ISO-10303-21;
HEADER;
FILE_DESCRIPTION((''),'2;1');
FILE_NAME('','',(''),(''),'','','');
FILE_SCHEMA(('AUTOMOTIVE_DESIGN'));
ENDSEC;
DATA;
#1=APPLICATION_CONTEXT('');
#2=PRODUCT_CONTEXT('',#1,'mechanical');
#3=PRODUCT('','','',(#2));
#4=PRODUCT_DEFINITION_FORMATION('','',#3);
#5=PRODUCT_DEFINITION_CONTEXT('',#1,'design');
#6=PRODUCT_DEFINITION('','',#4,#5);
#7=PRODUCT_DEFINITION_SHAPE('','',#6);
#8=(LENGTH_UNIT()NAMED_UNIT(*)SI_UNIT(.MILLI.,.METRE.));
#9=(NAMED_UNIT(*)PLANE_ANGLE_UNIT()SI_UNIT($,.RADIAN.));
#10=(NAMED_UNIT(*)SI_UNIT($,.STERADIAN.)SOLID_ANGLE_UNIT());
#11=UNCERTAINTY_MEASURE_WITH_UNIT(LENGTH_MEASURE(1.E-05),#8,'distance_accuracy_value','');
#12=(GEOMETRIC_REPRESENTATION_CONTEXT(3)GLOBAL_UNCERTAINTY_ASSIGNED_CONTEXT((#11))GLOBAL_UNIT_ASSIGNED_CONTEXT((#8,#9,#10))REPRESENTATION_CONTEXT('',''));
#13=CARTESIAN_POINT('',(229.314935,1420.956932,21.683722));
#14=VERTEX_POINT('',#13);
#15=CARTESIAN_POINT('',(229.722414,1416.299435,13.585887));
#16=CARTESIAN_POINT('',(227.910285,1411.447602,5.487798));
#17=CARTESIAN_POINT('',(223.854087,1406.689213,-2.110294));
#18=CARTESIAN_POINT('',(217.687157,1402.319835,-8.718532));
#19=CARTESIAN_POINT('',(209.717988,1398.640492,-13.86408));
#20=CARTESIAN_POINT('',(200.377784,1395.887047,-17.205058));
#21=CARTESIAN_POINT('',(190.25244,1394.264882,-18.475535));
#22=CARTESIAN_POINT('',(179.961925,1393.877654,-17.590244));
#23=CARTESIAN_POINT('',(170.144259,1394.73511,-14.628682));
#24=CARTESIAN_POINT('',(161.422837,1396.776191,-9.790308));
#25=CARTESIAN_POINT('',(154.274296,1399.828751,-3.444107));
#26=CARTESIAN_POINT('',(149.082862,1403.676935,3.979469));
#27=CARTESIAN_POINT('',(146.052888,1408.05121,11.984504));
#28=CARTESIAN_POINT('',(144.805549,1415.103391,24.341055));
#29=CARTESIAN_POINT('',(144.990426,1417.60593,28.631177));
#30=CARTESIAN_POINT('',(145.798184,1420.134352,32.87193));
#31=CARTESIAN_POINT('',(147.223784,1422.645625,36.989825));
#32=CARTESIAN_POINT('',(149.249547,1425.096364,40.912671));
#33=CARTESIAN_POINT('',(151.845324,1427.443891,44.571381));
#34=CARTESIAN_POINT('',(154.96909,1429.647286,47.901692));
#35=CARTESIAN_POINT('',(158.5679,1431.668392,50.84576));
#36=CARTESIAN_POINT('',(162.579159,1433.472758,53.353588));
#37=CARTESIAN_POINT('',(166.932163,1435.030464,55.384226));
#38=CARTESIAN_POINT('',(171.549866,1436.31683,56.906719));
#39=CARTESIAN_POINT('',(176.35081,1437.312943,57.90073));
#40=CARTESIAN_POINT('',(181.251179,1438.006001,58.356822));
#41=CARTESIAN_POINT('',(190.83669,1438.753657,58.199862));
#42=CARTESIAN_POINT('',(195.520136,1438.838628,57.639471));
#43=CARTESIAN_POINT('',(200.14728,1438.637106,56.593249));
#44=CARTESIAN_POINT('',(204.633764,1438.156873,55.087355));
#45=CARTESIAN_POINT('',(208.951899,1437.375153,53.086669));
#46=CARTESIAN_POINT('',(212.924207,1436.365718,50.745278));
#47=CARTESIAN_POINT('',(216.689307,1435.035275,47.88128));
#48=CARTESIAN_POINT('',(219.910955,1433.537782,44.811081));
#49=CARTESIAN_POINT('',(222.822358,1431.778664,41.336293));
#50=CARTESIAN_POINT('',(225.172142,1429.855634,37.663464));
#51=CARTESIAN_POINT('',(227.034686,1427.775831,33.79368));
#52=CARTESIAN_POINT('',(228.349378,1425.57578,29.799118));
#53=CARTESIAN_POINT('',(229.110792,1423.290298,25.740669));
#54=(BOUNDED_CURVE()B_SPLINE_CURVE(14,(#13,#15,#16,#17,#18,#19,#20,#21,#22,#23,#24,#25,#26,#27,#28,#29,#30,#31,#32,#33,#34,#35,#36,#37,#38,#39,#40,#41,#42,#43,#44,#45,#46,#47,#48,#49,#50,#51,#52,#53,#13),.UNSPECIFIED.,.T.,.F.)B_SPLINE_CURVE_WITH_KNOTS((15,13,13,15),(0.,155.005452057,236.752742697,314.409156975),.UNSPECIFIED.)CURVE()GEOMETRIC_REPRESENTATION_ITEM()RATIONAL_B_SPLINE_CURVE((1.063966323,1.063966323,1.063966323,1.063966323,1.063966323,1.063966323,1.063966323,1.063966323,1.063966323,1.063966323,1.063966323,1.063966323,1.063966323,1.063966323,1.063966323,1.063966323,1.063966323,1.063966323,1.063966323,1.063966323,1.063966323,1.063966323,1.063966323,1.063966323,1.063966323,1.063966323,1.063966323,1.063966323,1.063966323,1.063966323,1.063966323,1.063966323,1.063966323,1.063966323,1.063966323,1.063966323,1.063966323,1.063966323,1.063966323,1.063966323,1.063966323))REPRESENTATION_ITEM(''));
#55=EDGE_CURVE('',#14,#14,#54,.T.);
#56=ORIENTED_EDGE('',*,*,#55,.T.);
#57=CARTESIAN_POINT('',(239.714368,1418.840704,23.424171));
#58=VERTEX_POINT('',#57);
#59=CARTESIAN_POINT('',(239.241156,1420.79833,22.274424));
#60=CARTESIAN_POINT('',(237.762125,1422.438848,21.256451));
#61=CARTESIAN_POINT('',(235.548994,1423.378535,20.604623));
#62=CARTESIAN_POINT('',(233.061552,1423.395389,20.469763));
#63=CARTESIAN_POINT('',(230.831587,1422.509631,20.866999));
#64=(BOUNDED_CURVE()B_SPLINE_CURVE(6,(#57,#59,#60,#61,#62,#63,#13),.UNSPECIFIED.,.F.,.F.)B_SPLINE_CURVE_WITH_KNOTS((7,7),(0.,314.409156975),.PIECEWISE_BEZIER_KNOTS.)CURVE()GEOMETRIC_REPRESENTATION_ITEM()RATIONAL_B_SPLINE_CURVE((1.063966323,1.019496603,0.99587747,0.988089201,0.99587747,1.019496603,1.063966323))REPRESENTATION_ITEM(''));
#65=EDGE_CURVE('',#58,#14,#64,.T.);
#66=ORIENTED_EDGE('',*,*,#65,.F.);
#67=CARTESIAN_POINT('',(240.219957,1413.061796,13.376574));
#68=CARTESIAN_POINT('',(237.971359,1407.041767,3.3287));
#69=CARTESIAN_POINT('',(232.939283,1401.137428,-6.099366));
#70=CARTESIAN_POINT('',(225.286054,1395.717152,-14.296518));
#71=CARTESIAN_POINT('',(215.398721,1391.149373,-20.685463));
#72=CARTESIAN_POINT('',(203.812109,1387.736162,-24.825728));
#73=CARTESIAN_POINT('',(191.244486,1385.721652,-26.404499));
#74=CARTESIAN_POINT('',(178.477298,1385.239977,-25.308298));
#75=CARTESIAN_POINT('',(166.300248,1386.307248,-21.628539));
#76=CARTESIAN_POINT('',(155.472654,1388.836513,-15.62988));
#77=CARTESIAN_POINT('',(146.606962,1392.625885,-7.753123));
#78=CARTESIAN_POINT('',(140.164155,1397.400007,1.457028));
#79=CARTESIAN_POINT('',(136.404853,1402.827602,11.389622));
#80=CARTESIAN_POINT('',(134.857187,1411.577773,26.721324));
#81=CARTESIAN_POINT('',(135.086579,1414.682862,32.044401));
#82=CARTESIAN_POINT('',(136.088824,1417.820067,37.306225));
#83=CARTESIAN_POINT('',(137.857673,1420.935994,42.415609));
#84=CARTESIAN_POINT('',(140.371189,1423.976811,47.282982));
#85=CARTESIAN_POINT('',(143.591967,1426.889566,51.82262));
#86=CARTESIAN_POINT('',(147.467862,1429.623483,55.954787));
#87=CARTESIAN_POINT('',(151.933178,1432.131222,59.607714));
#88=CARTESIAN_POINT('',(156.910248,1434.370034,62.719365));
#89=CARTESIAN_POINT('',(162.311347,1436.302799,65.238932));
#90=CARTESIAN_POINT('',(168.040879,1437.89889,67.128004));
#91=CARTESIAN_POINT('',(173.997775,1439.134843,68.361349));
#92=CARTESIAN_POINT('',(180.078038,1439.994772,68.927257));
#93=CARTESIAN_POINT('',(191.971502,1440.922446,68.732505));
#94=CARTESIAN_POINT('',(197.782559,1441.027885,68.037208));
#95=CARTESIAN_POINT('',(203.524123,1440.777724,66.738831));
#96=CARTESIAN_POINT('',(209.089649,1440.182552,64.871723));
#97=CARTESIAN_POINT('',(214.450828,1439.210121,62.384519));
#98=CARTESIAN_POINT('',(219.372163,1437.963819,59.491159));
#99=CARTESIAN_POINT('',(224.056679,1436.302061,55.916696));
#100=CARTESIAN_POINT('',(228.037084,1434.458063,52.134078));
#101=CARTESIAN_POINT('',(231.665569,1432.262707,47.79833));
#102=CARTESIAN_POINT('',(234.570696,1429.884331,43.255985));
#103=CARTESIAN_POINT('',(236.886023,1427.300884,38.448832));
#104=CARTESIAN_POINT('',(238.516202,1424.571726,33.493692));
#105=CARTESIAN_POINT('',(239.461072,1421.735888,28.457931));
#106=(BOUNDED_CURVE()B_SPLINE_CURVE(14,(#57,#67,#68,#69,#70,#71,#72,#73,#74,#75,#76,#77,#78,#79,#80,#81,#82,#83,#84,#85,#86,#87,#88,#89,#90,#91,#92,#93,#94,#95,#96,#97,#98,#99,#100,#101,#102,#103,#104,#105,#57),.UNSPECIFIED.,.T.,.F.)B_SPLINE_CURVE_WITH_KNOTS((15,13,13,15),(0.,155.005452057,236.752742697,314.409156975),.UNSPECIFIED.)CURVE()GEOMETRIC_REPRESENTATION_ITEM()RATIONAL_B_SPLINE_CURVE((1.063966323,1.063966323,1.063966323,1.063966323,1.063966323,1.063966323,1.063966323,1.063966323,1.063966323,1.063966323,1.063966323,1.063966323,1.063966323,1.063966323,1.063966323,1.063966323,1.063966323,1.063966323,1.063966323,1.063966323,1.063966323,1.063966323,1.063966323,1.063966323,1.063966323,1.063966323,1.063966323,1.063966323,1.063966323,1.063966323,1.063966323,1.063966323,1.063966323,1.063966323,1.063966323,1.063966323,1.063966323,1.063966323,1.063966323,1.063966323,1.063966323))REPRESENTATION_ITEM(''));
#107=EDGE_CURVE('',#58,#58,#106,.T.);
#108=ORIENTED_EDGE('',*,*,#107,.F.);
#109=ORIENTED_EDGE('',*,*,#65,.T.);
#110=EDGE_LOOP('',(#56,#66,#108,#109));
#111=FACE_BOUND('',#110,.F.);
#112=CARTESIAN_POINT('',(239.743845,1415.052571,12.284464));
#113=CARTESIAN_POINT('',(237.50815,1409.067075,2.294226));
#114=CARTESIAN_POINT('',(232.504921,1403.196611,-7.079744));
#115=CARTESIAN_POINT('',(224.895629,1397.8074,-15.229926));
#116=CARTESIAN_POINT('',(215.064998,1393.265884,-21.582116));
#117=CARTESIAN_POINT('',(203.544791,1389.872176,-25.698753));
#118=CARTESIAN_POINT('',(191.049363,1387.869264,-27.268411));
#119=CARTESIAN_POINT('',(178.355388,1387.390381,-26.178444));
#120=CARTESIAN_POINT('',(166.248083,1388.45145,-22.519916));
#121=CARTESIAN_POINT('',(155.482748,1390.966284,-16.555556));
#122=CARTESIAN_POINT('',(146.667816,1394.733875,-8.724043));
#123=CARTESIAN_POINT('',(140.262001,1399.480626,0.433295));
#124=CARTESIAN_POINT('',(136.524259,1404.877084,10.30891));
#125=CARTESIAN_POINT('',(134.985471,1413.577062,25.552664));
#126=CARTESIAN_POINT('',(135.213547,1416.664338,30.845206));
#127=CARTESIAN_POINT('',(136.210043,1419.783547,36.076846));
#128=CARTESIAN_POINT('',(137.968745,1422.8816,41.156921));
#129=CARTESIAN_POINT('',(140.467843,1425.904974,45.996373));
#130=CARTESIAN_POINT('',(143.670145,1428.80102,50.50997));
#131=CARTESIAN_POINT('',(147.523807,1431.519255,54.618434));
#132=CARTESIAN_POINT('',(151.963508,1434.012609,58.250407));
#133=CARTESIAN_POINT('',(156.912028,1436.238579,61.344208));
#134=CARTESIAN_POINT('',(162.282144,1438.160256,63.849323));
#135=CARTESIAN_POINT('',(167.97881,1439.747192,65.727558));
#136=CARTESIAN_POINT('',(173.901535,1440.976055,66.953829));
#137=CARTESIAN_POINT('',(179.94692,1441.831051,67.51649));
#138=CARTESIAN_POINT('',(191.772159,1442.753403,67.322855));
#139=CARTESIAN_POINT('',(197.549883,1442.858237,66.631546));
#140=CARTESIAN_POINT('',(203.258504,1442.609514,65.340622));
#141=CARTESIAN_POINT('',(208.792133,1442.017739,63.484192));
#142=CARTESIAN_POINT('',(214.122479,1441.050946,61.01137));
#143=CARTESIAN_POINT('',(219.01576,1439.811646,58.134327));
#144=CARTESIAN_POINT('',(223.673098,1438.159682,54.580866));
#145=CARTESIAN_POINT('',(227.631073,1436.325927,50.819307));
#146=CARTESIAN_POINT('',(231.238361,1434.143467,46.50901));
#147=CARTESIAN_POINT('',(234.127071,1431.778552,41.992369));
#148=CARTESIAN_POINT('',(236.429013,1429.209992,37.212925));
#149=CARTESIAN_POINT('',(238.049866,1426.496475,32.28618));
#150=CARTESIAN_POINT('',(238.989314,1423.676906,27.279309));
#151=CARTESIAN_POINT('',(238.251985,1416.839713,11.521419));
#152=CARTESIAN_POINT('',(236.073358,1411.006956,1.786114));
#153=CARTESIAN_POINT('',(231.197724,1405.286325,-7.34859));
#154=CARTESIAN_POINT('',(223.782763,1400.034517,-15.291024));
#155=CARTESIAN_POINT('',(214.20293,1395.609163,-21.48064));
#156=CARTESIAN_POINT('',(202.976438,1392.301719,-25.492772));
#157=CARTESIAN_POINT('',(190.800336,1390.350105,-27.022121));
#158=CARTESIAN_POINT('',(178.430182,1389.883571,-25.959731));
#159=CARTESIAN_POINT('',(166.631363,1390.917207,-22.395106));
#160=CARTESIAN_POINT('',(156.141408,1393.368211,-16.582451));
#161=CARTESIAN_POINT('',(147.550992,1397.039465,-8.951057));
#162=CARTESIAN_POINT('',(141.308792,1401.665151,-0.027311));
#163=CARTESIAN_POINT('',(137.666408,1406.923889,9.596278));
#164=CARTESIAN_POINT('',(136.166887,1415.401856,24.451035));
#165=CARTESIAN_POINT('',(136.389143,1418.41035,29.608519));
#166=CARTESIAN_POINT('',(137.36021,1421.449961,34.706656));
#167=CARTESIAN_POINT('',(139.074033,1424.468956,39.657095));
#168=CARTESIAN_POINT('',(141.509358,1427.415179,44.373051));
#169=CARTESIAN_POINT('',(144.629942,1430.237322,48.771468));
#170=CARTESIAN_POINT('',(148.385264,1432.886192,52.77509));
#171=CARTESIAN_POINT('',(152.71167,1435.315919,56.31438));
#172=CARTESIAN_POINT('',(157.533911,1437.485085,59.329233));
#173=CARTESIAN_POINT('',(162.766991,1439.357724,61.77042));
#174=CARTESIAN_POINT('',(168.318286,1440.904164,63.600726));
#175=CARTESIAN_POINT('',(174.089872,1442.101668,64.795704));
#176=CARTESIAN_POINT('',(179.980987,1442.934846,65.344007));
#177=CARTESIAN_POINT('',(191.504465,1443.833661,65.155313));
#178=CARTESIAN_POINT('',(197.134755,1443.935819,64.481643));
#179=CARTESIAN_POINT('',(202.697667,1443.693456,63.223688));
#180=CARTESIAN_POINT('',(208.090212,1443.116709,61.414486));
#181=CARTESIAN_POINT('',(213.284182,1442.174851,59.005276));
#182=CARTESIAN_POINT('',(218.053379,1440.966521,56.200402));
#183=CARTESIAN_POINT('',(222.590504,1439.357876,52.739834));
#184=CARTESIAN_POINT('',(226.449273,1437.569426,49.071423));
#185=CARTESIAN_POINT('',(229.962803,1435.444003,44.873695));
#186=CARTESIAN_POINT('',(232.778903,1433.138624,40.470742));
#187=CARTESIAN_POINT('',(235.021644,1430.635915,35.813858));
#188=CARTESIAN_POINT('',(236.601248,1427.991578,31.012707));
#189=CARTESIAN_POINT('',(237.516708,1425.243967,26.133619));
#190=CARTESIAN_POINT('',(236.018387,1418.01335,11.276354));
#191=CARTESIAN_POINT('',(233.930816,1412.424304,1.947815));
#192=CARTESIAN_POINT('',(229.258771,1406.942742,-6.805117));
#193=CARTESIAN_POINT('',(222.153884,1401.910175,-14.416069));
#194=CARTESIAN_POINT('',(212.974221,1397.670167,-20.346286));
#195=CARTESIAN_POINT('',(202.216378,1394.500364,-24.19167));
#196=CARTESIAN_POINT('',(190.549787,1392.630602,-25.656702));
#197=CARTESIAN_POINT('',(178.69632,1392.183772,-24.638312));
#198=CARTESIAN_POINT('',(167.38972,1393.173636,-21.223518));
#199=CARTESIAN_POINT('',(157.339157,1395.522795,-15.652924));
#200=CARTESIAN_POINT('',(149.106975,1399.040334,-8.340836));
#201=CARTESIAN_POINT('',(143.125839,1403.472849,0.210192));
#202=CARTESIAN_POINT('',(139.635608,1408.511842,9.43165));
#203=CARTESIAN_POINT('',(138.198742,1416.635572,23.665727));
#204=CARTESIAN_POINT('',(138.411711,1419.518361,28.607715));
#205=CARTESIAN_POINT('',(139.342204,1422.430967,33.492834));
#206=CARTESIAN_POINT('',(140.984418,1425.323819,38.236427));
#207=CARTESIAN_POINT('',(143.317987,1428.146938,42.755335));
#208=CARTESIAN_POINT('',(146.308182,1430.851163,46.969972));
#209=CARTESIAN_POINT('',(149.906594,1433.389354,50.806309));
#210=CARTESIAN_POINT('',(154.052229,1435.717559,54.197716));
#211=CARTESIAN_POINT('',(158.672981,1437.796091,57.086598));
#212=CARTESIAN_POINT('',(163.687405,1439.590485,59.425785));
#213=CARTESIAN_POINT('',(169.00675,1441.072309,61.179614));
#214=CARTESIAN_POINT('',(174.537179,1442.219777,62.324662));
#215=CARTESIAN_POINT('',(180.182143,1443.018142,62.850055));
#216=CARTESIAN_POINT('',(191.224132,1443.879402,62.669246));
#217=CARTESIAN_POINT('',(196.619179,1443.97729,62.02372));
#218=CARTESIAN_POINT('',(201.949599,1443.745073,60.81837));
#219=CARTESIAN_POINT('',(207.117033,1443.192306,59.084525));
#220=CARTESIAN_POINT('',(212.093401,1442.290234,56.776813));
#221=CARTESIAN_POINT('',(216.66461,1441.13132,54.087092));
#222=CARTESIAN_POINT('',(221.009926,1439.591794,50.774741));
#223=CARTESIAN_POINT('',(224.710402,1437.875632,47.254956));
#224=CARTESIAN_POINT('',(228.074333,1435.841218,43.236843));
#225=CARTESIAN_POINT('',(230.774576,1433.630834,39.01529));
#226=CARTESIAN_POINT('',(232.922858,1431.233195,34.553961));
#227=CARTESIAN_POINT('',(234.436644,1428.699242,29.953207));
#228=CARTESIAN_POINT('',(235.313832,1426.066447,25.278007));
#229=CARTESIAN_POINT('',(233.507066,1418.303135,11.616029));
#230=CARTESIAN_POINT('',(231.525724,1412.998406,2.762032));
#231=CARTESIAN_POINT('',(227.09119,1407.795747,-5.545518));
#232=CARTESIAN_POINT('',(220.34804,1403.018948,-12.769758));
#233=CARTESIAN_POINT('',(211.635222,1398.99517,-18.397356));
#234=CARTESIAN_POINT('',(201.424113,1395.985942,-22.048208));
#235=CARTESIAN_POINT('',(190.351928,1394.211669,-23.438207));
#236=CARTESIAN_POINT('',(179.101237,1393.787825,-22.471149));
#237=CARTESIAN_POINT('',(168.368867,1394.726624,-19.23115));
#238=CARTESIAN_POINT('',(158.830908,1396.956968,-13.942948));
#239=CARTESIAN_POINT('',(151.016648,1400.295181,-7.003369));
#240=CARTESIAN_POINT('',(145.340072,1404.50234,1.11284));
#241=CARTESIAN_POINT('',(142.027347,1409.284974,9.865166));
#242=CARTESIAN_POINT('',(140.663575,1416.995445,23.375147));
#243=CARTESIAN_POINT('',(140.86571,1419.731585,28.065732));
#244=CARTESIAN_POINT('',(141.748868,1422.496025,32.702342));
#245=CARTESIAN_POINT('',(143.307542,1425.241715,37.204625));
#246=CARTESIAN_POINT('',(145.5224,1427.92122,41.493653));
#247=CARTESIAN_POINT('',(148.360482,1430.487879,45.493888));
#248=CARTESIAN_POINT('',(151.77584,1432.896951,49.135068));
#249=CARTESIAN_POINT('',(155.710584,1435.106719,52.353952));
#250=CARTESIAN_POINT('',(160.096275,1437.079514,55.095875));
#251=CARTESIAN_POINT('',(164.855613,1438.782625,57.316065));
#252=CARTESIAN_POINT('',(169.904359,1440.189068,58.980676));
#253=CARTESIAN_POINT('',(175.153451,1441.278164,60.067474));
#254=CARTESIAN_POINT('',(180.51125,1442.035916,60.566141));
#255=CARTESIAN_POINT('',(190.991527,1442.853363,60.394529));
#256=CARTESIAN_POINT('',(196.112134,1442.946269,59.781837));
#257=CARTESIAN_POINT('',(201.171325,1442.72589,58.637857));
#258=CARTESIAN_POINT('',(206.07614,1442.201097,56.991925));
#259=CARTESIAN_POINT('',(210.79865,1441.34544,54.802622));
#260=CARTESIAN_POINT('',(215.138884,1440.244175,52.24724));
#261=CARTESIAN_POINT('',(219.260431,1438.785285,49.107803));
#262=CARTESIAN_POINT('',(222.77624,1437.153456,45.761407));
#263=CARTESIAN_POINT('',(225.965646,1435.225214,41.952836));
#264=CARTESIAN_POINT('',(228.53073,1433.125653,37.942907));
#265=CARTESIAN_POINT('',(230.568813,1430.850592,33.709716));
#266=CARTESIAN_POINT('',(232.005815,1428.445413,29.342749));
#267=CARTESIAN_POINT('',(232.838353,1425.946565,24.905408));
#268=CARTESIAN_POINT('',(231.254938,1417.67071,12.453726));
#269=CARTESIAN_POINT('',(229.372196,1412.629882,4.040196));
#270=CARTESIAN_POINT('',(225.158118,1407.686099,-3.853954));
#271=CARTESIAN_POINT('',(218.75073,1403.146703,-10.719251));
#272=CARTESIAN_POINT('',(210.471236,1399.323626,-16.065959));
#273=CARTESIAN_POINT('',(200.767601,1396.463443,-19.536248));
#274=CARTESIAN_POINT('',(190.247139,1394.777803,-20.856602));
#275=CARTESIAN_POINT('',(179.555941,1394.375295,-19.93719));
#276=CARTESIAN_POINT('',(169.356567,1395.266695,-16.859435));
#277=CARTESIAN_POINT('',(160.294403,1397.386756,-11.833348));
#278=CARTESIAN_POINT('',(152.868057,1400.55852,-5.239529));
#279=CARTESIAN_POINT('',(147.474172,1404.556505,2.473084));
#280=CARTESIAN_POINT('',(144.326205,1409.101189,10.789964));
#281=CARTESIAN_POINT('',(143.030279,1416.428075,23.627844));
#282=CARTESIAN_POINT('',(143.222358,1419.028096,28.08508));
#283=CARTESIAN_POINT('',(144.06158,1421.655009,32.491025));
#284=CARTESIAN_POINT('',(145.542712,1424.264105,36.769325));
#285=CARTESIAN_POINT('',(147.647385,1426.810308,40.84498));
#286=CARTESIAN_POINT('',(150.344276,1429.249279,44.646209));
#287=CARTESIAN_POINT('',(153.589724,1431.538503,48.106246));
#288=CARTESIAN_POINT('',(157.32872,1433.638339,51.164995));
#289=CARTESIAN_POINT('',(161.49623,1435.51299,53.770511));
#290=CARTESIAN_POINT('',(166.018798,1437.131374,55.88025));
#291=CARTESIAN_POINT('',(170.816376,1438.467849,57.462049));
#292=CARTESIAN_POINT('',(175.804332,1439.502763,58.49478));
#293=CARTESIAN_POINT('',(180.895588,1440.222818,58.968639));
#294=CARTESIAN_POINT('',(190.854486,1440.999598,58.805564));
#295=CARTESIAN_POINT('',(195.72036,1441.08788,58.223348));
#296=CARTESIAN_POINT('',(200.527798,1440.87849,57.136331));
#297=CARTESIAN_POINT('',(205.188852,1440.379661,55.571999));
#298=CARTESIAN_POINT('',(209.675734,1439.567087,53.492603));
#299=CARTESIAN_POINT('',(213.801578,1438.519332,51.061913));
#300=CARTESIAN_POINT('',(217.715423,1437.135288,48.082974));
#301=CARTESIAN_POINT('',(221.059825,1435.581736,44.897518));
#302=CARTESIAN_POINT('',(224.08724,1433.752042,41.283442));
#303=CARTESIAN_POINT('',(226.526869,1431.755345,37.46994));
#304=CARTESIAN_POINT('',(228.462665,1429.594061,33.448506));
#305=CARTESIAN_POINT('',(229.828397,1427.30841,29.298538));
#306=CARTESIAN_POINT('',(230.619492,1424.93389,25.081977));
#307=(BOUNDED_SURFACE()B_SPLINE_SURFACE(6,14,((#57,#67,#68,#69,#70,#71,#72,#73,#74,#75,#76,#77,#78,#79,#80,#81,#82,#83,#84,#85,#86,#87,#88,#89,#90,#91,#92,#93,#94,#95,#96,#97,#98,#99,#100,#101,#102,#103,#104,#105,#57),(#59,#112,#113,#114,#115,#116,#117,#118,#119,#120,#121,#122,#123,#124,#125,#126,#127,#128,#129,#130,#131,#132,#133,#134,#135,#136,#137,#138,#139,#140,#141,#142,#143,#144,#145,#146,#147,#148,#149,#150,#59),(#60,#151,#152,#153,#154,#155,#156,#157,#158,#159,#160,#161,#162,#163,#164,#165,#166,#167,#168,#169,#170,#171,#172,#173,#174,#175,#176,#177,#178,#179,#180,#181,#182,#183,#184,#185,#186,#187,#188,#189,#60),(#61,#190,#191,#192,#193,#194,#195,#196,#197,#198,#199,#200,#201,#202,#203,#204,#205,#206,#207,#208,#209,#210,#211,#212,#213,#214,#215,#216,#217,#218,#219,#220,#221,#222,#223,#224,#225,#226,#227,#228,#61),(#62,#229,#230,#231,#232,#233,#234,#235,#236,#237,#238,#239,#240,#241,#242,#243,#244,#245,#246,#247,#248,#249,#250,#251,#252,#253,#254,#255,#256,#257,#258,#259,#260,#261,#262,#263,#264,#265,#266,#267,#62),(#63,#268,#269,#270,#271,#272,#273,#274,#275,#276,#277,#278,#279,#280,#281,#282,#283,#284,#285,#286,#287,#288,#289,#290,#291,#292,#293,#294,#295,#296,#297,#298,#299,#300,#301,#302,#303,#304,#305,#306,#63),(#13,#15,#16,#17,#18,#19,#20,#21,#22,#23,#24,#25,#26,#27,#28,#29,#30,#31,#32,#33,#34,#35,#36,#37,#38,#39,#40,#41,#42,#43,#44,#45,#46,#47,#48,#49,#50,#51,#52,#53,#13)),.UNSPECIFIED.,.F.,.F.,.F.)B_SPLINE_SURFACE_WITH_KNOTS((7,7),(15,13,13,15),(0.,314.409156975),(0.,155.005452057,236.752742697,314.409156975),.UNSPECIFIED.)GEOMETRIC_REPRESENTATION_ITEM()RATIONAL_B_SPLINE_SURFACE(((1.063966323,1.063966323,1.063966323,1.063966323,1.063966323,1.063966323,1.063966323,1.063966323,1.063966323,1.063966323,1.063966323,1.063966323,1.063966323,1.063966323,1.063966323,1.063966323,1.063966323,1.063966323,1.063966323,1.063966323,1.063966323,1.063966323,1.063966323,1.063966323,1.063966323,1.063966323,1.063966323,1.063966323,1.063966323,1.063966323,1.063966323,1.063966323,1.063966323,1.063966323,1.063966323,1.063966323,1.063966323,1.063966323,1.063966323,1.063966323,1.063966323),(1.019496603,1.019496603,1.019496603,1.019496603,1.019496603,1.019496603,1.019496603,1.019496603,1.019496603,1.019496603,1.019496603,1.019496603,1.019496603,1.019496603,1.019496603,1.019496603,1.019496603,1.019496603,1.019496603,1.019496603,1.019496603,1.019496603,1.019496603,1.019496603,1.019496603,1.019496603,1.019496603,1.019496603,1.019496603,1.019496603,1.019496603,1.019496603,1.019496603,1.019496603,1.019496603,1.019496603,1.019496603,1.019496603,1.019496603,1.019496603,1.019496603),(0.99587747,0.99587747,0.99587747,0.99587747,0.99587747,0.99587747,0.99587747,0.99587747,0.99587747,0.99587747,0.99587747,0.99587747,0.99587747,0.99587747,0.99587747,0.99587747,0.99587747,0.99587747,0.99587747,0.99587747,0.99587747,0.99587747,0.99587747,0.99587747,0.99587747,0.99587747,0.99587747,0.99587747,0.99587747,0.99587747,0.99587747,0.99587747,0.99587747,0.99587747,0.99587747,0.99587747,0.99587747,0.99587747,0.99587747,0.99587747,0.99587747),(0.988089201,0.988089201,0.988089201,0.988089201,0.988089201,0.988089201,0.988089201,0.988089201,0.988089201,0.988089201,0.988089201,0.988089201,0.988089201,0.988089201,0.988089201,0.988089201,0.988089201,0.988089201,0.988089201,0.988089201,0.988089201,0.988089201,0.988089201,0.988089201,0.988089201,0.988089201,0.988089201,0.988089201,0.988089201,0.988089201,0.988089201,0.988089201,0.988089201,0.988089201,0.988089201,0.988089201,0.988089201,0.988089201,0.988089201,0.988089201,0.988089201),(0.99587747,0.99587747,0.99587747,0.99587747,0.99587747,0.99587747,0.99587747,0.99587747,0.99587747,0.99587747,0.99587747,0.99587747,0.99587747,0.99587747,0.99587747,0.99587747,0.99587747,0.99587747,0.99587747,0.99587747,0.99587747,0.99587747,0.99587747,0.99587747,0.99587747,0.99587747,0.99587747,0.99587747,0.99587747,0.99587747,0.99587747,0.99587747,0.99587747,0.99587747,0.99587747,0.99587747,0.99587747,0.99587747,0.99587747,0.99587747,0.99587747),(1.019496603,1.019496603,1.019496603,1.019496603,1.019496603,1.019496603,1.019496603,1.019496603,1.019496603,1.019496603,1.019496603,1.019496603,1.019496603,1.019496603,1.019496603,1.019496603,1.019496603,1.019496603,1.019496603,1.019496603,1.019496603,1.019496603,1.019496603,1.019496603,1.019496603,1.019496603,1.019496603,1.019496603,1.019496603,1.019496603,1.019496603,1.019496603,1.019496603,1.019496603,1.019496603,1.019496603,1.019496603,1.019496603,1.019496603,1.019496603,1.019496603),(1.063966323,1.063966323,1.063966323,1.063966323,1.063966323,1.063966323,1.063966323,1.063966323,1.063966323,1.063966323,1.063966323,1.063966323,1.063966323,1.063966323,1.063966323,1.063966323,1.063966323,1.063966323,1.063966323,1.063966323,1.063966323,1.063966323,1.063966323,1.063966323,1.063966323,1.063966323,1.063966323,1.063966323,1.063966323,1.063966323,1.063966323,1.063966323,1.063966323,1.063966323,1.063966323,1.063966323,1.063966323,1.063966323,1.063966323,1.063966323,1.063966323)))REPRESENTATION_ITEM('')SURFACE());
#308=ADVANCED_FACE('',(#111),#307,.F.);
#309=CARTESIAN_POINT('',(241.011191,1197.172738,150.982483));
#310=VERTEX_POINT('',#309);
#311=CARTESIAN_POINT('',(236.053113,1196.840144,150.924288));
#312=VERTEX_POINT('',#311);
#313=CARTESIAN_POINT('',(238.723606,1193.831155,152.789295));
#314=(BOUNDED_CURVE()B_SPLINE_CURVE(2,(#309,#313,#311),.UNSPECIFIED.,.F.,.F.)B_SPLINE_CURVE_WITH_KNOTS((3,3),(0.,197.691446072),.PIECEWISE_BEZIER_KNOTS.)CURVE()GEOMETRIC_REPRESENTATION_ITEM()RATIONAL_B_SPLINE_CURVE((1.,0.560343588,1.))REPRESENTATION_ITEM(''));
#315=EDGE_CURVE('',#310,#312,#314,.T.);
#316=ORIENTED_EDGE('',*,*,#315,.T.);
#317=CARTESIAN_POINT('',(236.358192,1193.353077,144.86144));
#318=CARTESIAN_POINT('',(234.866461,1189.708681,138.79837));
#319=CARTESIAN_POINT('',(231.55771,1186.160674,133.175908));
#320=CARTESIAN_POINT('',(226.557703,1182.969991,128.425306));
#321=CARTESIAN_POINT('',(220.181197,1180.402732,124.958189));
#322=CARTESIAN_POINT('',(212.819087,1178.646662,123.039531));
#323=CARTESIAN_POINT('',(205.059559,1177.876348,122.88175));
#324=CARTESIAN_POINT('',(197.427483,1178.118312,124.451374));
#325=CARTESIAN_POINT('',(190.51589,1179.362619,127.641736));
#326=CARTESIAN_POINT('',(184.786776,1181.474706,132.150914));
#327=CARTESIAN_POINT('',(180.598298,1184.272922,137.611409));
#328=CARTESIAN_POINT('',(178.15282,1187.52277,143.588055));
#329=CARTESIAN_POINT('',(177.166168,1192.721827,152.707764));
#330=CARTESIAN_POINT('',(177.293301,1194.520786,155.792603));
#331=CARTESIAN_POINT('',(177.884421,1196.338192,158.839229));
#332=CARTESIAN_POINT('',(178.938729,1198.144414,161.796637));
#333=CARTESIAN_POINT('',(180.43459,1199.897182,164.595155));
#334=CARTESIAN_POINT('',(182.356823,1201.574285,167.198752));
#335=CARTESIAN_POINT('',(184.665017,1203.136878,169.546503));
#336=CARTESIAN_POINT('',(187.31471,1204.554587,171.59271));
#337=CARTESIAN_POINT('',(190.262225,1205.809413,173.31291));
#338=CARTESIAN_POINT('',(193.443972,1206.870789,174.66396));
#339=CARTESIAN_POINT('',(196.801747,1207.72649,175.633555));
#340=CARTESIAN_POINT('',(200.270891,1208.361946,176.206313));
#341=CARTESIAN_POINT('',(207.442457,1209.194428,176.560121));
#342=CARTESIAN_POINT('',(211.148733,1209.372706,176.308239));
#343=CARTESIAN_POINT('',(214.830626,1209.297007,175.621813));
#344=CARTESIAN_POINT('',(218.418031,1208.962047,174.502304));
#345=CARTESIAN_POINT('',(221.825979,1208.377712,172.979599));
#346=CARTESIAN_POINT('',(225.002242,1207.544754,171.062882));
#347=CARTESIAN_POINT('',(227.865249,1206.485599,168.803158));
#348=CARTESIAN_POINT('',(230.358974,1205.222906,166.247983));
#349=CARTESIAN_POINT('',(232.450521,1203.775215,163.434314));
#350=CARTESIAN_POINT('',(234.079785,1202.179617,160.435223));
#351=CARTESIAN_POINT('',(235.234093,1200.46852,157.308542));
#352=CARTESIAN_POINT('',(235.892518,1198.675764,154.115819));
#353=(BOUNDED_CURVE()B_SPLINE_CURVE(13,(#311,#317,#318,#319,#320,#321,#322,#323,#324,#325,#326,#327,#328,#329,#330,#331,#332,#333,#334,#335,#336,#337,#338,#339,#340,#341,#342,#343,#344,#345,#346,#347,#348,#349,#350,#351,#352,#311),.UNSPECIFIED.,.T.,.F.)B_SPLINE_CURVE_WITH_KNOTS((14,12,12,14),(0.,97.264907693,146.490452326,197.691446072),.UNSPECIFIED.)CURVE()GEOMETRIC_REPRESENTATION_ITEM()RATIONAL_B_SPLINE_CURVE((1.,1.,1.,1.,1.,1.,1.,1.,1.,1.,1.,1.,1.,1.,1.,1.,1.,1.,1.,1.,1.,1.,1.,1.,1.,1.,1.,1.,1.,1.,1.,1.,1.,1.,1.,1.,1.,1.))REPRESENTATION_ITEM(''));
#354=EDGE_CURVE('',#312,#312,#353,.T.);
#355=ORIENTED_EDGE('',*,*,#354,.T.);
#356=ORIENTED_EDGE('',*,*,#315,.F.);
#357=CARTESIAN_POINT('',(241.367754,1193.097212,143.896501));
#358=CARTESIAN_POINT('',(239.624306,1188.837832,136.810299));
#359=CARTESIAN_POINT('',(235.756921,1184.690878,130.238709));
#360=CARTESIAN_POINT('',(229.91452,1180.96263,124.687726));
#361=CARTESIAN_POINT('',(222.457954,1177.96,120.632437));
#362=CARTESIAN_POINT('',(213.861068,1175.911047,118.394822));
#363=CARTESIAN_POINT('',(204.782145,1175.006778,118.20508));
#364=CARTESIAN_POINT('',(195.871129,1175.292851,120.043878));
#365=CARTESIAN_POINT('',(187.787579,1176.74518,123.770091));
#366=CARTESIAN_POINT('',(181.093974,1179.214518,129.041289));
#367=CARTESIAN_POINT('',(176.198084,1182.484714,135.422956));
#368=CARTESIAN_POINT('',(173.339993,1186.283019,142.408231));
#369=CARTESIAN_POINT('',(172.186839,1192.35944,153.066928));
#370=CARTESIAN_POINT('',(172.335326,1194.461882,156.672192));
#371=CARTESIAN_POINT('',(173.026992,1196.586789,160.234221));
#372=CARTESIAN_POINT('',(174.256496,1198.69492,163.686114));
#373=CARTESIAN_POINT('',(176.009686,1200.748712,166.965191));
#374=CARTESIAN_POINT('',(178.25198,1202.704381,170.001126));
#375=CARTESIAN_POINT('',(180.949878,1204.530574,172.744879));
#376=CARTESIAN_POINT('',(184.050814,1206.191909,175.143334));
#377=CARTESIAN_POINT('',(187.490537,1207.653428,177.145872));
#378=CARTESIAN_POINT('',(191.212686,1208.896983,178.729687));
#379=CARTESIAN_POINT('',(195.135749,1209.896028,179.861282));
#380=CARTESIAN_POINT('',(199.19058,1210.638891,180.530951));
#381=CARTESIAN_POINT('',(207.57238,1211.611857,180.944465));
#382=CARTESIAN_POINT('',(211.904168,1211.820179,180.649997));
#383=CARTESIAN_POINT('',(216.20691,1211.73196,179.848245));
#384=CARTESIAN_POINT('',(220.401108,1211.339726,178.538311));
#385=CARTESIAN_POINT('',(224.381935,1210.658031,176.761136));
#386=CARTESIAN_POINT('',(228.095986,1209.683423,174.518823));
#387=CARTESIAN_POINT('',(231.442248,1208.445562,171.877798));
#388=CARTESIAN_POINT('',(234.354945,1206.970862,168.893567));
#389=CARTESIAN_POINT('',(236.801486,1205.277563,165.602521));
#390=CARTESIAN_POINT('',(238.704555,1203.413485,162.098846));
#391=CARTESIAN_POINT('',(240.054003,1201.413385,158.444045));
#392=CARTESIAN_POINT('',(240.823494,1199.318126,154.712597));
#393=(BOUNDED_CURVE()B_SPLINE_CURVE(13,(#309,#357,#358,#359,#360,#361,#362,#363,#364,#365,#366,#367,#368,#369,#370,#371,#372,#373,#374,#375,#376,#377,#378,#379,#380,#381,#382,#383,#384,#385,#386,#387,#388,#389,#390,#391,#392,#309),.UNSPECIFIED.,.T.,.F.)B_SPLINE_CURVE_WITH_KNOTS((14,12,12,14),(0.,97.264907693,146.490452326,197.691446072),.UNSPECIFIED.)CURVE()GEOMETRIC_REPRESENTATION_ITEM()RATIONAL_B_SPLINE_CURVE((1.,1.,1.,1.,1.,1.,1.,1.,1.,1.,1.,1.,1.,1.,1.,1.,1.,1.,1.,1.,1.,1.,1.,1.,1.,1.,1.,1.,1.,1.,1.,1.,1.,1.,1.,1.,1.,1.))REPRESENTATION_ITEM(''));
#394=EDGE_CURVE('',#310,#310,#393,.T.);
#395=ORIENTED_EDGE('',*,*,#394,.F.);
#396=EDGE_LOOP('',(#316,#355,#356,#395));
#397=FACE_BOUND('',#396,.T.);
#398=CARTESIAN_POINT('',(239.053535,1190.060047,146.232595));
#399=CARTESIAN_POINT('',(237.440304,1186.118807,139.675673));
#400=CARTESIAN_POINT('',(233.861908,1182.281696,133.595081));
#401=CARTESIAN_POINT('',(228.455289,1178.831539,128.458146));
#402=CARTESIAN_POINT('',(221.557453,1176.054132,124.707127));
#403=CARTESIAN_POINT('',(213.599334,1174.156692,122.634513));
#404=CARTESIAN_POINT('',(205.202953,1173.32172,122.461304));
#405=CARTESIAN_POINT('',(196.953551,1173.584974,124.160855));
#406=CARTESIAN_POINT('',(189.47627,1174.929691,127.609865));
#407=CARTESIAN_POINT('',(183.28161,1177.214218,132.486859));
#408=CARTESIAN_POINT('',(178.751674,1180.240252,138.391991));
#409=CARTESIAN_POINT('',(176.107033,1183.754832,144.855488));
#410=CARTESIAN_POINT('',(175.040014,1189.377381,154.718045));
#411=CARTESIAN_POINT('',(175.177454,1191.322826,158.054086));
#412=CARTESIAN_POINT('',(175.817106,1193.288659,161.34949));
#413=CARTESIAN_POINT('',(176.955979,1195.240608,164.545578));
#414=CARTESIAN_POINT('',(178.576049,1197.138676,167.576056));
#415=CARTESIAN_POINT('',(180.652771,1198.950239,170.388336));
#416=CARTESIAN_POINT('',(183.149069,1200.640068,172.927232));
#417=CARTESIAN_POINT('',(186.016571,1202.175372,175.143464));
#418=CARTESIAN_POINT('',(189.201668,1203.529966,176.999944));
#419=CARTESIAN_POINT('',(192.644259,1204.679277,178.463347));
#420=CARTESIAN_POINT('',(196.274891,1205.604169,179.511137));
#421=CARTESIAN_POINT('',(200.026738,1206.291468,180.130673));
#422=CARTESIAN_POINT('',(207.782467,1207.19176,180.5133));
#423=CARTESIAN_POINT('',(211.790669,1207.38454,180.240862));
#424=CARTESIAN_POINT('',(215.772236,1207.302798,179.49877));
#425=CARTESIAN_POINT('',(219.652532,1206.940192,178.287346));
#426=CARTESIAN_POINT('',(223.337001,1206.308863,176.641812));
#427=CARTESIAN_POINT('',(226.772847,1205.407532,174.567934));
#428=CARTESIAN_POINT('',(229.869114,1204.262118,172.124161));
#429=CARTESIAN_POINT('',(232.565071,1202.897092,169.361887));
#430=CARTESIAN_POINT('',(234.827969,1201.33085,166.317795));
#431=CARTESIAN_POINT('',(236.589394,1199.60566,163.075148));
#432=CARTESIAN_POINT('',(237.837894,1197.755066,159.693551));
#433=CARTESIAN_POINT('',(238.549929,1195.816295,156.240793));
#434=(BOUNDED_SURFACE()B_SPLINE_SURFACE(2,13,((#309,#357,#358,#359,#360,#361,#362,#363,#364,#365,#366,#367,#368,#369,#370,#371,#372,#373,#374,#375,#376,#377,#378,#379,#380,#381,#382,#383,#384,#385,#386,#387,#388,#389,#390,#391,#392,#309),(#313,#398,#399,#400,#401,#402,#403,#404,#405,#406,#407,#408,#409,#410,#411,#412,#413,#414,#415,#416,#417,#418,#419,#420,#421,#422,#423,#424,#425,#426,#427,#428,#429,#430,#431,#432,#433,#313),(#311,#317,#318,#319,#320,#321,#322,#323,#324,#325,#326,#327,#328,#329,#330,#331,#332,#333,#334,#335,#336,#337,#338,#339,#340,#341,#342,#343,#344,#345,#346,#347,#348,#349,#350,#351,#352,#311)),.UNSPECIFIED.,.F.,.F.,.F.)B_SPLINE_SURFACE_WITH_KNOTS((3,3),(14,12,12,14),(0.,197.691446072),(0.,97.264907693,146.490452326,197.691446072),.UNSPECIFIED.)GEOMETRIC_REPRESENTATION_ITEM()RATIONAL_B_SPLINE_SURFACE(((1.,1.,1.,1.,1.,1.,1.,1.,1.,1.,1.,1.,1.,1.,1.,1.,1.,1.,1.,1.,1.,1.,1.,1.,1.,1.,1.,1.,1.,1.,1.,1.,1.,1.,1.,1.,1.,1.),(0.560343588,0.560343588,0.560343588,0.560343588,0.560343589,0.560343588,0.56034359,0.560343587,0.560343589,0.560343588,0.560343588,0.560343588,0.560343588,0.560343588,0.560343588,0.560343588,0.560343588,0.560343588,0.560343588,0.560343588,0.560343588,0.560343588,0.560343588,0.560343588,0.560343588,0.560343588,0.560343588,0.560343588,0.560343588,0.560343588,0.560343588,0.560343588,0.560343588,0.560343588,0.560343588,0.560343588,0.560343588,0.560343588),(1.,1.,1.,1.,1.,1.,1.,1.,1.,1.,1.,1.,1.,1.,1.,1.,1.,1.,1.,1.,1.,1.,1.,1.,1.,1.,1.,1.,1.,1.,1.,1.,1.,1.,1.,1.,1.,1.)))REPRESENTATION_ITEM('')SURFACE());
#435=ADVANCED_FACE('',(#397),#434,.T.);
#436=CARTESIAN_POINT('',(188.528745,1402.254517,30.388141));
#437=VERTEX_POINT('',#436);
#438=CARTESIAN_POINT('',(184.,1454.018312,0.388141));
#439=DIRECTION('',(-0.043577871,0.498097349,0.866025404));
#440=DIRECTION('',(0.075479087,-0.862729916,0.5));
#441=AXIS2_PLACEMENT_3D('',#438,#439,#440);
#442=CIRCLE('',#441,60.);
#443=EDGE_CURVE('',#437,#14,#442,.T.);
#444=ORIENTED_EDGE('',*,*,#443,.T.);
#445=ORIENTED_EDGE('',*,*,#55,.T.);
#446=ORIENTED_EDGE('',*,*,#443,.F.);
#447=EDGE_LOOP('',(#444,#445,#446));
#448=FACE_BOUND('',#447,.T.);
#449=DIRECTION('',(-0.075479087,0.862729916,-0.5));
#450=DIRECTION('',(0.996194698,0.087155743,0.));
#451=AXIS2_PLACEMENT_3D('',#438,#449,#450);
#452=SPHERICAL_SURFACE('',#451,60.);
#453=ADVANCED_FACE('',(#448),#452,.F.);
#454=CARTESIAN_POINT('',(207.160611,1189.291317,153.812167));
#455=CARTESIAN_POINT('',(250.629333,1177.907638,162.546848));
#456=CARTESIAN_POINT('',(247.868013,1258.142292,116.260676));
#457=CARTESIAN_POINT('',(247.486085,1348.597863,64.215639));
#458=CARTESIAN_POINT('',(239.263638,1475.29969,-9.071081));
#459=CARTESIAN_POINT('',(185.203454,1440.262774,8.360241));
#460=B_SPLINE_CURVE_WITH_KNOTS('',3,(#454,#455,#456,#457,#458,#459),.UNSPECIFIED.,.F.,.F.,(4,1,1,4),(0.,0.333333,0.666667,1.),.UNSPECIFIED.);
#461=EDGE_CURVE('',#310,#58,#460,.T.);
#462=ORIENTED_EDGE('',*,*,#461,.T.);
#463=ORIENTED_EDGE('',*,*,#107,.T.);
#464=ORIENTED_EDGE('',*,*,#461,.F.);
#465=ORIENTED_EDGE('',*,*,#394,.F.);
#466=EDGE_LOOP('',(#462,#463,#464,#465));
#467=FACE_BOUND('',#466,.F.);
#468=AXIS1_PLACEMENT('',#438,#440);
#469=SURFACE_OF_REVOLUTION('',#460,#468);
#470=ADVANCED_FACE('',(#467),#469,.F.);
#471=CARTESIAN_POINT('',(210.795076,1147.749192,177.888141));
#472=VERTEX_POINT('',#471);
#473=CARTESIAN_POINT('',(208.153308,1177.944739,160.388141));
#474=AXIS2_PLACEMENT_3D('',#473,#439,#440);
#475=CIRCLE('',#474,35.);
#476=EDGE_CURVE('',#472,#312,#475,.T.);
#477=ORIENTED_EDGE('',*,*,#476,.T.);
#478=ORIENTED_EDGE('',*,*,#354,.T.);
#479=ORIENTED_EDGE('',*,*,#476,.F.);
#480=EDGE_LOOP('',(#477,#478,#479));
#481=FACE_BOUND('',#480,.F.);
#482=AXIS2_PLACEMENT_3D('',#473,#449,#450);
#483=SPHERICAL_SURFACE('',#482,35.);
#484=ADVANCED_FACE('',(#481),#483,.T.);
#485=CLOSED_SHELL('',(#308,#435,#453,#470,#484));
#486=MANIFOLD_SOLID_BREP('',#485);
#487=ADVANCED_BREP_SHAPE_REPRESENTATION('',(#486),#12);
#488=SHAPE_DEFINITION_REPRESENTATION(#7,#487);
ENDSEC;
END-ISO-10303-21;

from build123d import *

# Parameters (mm, degrees)
FILLET086_R             = 6
FILLET087_R             = 3
BODY052_PITCH_ANGLE     = -30
BODY052_PLACEMENT_ANGLE = -85


with BuildPart() as part:
    # Sketch175 → Revolution090 (revolve)
    with BuildSketch(Plane.XY):
        with BuildLine():
            Line((15.9442, 0), (306.848053, 0))
            add(Edge.make_bspline(
                [(306.848053, 0), (324.317413, 42.311157), (231.745069, 46.553256), (127.654996, 54.056504), (-18.918443, 56.908137), (15.9442, 0)],
                knots=[0, 0, 0, 0, 0.333333, 0.666667, 1, 1, 1, 1], degree=3))
        make_face()
    revolve(axis=Axis((0, 0, 0), (1, 0, 0)))

    # Sketch176 → Groove084 (revolve, cut)
    with BuildSketch(Plane.XY):
        with BuildLine():
            Line((-60, 0), (60, 0))
            ThreePointArc((60, 0), (0, 60), (-60, 0))
        make_face()
    revolve(axis=Axis((0, 0, 0), (1, 0, 0)), mode=Mode.SUBTRACT)

    # Fillet086
    fillet086_edges = [part.edges().sort_by_distance(p)[0] for p in [
        (33.106232, -50.039758, 0),
    ]]
    fillet(fillet086_edges, radius=FILLET086_R)

    # Sketch177 → Groove085 (revolve, cut)
    with BuildSketch(Plane.XY):
        with BuildLine():
            Line((285, 0), (355, 0))
            ThreePointArc((355, 0), (320, 35), (285, 0))
        make_face()
    revolve(axis=Axis((0, 0, 0), (1, 0, 0)), mode=Mode.SUBTRACT)

    # Fillet087
    fillet087_edges = [part.edges().sort_by_distance(p)[0] for p in [
        (304.668851, -31.463564, 0),
    ]]
    fillet(fillet087_edges, radius=FILLET087_R)

    # Sketch177 → Revolution091 (revolve)
    with BuildSketch(Plane.XY):
        with BuildLine():
            Line((285, 0), (355, 0))
            ThreePointArc((355, 0), (320, 35), (285, 0))
        make_face()
    revolve(axis=Axis((0, 0, 0), (1, 0, 0)))


with BuildPart() as part_1:
    # Body052 pitch: moved
    add(part.part.rotate(Axis((0, 0, 0), (0, 1, 0)), BODY052_PITCH_ANGLE))


with BuildPart() as part_2:
    # Body052 placement: moved
    add(part_1.part.moved(Location((184, 1454.018312, 0.388141))).rotate(Axis((184, 1454.018312, 0.388141), (0, 0, 1)), BODY052_PLACEMENT_ANGLE))


solid = part_2.part
